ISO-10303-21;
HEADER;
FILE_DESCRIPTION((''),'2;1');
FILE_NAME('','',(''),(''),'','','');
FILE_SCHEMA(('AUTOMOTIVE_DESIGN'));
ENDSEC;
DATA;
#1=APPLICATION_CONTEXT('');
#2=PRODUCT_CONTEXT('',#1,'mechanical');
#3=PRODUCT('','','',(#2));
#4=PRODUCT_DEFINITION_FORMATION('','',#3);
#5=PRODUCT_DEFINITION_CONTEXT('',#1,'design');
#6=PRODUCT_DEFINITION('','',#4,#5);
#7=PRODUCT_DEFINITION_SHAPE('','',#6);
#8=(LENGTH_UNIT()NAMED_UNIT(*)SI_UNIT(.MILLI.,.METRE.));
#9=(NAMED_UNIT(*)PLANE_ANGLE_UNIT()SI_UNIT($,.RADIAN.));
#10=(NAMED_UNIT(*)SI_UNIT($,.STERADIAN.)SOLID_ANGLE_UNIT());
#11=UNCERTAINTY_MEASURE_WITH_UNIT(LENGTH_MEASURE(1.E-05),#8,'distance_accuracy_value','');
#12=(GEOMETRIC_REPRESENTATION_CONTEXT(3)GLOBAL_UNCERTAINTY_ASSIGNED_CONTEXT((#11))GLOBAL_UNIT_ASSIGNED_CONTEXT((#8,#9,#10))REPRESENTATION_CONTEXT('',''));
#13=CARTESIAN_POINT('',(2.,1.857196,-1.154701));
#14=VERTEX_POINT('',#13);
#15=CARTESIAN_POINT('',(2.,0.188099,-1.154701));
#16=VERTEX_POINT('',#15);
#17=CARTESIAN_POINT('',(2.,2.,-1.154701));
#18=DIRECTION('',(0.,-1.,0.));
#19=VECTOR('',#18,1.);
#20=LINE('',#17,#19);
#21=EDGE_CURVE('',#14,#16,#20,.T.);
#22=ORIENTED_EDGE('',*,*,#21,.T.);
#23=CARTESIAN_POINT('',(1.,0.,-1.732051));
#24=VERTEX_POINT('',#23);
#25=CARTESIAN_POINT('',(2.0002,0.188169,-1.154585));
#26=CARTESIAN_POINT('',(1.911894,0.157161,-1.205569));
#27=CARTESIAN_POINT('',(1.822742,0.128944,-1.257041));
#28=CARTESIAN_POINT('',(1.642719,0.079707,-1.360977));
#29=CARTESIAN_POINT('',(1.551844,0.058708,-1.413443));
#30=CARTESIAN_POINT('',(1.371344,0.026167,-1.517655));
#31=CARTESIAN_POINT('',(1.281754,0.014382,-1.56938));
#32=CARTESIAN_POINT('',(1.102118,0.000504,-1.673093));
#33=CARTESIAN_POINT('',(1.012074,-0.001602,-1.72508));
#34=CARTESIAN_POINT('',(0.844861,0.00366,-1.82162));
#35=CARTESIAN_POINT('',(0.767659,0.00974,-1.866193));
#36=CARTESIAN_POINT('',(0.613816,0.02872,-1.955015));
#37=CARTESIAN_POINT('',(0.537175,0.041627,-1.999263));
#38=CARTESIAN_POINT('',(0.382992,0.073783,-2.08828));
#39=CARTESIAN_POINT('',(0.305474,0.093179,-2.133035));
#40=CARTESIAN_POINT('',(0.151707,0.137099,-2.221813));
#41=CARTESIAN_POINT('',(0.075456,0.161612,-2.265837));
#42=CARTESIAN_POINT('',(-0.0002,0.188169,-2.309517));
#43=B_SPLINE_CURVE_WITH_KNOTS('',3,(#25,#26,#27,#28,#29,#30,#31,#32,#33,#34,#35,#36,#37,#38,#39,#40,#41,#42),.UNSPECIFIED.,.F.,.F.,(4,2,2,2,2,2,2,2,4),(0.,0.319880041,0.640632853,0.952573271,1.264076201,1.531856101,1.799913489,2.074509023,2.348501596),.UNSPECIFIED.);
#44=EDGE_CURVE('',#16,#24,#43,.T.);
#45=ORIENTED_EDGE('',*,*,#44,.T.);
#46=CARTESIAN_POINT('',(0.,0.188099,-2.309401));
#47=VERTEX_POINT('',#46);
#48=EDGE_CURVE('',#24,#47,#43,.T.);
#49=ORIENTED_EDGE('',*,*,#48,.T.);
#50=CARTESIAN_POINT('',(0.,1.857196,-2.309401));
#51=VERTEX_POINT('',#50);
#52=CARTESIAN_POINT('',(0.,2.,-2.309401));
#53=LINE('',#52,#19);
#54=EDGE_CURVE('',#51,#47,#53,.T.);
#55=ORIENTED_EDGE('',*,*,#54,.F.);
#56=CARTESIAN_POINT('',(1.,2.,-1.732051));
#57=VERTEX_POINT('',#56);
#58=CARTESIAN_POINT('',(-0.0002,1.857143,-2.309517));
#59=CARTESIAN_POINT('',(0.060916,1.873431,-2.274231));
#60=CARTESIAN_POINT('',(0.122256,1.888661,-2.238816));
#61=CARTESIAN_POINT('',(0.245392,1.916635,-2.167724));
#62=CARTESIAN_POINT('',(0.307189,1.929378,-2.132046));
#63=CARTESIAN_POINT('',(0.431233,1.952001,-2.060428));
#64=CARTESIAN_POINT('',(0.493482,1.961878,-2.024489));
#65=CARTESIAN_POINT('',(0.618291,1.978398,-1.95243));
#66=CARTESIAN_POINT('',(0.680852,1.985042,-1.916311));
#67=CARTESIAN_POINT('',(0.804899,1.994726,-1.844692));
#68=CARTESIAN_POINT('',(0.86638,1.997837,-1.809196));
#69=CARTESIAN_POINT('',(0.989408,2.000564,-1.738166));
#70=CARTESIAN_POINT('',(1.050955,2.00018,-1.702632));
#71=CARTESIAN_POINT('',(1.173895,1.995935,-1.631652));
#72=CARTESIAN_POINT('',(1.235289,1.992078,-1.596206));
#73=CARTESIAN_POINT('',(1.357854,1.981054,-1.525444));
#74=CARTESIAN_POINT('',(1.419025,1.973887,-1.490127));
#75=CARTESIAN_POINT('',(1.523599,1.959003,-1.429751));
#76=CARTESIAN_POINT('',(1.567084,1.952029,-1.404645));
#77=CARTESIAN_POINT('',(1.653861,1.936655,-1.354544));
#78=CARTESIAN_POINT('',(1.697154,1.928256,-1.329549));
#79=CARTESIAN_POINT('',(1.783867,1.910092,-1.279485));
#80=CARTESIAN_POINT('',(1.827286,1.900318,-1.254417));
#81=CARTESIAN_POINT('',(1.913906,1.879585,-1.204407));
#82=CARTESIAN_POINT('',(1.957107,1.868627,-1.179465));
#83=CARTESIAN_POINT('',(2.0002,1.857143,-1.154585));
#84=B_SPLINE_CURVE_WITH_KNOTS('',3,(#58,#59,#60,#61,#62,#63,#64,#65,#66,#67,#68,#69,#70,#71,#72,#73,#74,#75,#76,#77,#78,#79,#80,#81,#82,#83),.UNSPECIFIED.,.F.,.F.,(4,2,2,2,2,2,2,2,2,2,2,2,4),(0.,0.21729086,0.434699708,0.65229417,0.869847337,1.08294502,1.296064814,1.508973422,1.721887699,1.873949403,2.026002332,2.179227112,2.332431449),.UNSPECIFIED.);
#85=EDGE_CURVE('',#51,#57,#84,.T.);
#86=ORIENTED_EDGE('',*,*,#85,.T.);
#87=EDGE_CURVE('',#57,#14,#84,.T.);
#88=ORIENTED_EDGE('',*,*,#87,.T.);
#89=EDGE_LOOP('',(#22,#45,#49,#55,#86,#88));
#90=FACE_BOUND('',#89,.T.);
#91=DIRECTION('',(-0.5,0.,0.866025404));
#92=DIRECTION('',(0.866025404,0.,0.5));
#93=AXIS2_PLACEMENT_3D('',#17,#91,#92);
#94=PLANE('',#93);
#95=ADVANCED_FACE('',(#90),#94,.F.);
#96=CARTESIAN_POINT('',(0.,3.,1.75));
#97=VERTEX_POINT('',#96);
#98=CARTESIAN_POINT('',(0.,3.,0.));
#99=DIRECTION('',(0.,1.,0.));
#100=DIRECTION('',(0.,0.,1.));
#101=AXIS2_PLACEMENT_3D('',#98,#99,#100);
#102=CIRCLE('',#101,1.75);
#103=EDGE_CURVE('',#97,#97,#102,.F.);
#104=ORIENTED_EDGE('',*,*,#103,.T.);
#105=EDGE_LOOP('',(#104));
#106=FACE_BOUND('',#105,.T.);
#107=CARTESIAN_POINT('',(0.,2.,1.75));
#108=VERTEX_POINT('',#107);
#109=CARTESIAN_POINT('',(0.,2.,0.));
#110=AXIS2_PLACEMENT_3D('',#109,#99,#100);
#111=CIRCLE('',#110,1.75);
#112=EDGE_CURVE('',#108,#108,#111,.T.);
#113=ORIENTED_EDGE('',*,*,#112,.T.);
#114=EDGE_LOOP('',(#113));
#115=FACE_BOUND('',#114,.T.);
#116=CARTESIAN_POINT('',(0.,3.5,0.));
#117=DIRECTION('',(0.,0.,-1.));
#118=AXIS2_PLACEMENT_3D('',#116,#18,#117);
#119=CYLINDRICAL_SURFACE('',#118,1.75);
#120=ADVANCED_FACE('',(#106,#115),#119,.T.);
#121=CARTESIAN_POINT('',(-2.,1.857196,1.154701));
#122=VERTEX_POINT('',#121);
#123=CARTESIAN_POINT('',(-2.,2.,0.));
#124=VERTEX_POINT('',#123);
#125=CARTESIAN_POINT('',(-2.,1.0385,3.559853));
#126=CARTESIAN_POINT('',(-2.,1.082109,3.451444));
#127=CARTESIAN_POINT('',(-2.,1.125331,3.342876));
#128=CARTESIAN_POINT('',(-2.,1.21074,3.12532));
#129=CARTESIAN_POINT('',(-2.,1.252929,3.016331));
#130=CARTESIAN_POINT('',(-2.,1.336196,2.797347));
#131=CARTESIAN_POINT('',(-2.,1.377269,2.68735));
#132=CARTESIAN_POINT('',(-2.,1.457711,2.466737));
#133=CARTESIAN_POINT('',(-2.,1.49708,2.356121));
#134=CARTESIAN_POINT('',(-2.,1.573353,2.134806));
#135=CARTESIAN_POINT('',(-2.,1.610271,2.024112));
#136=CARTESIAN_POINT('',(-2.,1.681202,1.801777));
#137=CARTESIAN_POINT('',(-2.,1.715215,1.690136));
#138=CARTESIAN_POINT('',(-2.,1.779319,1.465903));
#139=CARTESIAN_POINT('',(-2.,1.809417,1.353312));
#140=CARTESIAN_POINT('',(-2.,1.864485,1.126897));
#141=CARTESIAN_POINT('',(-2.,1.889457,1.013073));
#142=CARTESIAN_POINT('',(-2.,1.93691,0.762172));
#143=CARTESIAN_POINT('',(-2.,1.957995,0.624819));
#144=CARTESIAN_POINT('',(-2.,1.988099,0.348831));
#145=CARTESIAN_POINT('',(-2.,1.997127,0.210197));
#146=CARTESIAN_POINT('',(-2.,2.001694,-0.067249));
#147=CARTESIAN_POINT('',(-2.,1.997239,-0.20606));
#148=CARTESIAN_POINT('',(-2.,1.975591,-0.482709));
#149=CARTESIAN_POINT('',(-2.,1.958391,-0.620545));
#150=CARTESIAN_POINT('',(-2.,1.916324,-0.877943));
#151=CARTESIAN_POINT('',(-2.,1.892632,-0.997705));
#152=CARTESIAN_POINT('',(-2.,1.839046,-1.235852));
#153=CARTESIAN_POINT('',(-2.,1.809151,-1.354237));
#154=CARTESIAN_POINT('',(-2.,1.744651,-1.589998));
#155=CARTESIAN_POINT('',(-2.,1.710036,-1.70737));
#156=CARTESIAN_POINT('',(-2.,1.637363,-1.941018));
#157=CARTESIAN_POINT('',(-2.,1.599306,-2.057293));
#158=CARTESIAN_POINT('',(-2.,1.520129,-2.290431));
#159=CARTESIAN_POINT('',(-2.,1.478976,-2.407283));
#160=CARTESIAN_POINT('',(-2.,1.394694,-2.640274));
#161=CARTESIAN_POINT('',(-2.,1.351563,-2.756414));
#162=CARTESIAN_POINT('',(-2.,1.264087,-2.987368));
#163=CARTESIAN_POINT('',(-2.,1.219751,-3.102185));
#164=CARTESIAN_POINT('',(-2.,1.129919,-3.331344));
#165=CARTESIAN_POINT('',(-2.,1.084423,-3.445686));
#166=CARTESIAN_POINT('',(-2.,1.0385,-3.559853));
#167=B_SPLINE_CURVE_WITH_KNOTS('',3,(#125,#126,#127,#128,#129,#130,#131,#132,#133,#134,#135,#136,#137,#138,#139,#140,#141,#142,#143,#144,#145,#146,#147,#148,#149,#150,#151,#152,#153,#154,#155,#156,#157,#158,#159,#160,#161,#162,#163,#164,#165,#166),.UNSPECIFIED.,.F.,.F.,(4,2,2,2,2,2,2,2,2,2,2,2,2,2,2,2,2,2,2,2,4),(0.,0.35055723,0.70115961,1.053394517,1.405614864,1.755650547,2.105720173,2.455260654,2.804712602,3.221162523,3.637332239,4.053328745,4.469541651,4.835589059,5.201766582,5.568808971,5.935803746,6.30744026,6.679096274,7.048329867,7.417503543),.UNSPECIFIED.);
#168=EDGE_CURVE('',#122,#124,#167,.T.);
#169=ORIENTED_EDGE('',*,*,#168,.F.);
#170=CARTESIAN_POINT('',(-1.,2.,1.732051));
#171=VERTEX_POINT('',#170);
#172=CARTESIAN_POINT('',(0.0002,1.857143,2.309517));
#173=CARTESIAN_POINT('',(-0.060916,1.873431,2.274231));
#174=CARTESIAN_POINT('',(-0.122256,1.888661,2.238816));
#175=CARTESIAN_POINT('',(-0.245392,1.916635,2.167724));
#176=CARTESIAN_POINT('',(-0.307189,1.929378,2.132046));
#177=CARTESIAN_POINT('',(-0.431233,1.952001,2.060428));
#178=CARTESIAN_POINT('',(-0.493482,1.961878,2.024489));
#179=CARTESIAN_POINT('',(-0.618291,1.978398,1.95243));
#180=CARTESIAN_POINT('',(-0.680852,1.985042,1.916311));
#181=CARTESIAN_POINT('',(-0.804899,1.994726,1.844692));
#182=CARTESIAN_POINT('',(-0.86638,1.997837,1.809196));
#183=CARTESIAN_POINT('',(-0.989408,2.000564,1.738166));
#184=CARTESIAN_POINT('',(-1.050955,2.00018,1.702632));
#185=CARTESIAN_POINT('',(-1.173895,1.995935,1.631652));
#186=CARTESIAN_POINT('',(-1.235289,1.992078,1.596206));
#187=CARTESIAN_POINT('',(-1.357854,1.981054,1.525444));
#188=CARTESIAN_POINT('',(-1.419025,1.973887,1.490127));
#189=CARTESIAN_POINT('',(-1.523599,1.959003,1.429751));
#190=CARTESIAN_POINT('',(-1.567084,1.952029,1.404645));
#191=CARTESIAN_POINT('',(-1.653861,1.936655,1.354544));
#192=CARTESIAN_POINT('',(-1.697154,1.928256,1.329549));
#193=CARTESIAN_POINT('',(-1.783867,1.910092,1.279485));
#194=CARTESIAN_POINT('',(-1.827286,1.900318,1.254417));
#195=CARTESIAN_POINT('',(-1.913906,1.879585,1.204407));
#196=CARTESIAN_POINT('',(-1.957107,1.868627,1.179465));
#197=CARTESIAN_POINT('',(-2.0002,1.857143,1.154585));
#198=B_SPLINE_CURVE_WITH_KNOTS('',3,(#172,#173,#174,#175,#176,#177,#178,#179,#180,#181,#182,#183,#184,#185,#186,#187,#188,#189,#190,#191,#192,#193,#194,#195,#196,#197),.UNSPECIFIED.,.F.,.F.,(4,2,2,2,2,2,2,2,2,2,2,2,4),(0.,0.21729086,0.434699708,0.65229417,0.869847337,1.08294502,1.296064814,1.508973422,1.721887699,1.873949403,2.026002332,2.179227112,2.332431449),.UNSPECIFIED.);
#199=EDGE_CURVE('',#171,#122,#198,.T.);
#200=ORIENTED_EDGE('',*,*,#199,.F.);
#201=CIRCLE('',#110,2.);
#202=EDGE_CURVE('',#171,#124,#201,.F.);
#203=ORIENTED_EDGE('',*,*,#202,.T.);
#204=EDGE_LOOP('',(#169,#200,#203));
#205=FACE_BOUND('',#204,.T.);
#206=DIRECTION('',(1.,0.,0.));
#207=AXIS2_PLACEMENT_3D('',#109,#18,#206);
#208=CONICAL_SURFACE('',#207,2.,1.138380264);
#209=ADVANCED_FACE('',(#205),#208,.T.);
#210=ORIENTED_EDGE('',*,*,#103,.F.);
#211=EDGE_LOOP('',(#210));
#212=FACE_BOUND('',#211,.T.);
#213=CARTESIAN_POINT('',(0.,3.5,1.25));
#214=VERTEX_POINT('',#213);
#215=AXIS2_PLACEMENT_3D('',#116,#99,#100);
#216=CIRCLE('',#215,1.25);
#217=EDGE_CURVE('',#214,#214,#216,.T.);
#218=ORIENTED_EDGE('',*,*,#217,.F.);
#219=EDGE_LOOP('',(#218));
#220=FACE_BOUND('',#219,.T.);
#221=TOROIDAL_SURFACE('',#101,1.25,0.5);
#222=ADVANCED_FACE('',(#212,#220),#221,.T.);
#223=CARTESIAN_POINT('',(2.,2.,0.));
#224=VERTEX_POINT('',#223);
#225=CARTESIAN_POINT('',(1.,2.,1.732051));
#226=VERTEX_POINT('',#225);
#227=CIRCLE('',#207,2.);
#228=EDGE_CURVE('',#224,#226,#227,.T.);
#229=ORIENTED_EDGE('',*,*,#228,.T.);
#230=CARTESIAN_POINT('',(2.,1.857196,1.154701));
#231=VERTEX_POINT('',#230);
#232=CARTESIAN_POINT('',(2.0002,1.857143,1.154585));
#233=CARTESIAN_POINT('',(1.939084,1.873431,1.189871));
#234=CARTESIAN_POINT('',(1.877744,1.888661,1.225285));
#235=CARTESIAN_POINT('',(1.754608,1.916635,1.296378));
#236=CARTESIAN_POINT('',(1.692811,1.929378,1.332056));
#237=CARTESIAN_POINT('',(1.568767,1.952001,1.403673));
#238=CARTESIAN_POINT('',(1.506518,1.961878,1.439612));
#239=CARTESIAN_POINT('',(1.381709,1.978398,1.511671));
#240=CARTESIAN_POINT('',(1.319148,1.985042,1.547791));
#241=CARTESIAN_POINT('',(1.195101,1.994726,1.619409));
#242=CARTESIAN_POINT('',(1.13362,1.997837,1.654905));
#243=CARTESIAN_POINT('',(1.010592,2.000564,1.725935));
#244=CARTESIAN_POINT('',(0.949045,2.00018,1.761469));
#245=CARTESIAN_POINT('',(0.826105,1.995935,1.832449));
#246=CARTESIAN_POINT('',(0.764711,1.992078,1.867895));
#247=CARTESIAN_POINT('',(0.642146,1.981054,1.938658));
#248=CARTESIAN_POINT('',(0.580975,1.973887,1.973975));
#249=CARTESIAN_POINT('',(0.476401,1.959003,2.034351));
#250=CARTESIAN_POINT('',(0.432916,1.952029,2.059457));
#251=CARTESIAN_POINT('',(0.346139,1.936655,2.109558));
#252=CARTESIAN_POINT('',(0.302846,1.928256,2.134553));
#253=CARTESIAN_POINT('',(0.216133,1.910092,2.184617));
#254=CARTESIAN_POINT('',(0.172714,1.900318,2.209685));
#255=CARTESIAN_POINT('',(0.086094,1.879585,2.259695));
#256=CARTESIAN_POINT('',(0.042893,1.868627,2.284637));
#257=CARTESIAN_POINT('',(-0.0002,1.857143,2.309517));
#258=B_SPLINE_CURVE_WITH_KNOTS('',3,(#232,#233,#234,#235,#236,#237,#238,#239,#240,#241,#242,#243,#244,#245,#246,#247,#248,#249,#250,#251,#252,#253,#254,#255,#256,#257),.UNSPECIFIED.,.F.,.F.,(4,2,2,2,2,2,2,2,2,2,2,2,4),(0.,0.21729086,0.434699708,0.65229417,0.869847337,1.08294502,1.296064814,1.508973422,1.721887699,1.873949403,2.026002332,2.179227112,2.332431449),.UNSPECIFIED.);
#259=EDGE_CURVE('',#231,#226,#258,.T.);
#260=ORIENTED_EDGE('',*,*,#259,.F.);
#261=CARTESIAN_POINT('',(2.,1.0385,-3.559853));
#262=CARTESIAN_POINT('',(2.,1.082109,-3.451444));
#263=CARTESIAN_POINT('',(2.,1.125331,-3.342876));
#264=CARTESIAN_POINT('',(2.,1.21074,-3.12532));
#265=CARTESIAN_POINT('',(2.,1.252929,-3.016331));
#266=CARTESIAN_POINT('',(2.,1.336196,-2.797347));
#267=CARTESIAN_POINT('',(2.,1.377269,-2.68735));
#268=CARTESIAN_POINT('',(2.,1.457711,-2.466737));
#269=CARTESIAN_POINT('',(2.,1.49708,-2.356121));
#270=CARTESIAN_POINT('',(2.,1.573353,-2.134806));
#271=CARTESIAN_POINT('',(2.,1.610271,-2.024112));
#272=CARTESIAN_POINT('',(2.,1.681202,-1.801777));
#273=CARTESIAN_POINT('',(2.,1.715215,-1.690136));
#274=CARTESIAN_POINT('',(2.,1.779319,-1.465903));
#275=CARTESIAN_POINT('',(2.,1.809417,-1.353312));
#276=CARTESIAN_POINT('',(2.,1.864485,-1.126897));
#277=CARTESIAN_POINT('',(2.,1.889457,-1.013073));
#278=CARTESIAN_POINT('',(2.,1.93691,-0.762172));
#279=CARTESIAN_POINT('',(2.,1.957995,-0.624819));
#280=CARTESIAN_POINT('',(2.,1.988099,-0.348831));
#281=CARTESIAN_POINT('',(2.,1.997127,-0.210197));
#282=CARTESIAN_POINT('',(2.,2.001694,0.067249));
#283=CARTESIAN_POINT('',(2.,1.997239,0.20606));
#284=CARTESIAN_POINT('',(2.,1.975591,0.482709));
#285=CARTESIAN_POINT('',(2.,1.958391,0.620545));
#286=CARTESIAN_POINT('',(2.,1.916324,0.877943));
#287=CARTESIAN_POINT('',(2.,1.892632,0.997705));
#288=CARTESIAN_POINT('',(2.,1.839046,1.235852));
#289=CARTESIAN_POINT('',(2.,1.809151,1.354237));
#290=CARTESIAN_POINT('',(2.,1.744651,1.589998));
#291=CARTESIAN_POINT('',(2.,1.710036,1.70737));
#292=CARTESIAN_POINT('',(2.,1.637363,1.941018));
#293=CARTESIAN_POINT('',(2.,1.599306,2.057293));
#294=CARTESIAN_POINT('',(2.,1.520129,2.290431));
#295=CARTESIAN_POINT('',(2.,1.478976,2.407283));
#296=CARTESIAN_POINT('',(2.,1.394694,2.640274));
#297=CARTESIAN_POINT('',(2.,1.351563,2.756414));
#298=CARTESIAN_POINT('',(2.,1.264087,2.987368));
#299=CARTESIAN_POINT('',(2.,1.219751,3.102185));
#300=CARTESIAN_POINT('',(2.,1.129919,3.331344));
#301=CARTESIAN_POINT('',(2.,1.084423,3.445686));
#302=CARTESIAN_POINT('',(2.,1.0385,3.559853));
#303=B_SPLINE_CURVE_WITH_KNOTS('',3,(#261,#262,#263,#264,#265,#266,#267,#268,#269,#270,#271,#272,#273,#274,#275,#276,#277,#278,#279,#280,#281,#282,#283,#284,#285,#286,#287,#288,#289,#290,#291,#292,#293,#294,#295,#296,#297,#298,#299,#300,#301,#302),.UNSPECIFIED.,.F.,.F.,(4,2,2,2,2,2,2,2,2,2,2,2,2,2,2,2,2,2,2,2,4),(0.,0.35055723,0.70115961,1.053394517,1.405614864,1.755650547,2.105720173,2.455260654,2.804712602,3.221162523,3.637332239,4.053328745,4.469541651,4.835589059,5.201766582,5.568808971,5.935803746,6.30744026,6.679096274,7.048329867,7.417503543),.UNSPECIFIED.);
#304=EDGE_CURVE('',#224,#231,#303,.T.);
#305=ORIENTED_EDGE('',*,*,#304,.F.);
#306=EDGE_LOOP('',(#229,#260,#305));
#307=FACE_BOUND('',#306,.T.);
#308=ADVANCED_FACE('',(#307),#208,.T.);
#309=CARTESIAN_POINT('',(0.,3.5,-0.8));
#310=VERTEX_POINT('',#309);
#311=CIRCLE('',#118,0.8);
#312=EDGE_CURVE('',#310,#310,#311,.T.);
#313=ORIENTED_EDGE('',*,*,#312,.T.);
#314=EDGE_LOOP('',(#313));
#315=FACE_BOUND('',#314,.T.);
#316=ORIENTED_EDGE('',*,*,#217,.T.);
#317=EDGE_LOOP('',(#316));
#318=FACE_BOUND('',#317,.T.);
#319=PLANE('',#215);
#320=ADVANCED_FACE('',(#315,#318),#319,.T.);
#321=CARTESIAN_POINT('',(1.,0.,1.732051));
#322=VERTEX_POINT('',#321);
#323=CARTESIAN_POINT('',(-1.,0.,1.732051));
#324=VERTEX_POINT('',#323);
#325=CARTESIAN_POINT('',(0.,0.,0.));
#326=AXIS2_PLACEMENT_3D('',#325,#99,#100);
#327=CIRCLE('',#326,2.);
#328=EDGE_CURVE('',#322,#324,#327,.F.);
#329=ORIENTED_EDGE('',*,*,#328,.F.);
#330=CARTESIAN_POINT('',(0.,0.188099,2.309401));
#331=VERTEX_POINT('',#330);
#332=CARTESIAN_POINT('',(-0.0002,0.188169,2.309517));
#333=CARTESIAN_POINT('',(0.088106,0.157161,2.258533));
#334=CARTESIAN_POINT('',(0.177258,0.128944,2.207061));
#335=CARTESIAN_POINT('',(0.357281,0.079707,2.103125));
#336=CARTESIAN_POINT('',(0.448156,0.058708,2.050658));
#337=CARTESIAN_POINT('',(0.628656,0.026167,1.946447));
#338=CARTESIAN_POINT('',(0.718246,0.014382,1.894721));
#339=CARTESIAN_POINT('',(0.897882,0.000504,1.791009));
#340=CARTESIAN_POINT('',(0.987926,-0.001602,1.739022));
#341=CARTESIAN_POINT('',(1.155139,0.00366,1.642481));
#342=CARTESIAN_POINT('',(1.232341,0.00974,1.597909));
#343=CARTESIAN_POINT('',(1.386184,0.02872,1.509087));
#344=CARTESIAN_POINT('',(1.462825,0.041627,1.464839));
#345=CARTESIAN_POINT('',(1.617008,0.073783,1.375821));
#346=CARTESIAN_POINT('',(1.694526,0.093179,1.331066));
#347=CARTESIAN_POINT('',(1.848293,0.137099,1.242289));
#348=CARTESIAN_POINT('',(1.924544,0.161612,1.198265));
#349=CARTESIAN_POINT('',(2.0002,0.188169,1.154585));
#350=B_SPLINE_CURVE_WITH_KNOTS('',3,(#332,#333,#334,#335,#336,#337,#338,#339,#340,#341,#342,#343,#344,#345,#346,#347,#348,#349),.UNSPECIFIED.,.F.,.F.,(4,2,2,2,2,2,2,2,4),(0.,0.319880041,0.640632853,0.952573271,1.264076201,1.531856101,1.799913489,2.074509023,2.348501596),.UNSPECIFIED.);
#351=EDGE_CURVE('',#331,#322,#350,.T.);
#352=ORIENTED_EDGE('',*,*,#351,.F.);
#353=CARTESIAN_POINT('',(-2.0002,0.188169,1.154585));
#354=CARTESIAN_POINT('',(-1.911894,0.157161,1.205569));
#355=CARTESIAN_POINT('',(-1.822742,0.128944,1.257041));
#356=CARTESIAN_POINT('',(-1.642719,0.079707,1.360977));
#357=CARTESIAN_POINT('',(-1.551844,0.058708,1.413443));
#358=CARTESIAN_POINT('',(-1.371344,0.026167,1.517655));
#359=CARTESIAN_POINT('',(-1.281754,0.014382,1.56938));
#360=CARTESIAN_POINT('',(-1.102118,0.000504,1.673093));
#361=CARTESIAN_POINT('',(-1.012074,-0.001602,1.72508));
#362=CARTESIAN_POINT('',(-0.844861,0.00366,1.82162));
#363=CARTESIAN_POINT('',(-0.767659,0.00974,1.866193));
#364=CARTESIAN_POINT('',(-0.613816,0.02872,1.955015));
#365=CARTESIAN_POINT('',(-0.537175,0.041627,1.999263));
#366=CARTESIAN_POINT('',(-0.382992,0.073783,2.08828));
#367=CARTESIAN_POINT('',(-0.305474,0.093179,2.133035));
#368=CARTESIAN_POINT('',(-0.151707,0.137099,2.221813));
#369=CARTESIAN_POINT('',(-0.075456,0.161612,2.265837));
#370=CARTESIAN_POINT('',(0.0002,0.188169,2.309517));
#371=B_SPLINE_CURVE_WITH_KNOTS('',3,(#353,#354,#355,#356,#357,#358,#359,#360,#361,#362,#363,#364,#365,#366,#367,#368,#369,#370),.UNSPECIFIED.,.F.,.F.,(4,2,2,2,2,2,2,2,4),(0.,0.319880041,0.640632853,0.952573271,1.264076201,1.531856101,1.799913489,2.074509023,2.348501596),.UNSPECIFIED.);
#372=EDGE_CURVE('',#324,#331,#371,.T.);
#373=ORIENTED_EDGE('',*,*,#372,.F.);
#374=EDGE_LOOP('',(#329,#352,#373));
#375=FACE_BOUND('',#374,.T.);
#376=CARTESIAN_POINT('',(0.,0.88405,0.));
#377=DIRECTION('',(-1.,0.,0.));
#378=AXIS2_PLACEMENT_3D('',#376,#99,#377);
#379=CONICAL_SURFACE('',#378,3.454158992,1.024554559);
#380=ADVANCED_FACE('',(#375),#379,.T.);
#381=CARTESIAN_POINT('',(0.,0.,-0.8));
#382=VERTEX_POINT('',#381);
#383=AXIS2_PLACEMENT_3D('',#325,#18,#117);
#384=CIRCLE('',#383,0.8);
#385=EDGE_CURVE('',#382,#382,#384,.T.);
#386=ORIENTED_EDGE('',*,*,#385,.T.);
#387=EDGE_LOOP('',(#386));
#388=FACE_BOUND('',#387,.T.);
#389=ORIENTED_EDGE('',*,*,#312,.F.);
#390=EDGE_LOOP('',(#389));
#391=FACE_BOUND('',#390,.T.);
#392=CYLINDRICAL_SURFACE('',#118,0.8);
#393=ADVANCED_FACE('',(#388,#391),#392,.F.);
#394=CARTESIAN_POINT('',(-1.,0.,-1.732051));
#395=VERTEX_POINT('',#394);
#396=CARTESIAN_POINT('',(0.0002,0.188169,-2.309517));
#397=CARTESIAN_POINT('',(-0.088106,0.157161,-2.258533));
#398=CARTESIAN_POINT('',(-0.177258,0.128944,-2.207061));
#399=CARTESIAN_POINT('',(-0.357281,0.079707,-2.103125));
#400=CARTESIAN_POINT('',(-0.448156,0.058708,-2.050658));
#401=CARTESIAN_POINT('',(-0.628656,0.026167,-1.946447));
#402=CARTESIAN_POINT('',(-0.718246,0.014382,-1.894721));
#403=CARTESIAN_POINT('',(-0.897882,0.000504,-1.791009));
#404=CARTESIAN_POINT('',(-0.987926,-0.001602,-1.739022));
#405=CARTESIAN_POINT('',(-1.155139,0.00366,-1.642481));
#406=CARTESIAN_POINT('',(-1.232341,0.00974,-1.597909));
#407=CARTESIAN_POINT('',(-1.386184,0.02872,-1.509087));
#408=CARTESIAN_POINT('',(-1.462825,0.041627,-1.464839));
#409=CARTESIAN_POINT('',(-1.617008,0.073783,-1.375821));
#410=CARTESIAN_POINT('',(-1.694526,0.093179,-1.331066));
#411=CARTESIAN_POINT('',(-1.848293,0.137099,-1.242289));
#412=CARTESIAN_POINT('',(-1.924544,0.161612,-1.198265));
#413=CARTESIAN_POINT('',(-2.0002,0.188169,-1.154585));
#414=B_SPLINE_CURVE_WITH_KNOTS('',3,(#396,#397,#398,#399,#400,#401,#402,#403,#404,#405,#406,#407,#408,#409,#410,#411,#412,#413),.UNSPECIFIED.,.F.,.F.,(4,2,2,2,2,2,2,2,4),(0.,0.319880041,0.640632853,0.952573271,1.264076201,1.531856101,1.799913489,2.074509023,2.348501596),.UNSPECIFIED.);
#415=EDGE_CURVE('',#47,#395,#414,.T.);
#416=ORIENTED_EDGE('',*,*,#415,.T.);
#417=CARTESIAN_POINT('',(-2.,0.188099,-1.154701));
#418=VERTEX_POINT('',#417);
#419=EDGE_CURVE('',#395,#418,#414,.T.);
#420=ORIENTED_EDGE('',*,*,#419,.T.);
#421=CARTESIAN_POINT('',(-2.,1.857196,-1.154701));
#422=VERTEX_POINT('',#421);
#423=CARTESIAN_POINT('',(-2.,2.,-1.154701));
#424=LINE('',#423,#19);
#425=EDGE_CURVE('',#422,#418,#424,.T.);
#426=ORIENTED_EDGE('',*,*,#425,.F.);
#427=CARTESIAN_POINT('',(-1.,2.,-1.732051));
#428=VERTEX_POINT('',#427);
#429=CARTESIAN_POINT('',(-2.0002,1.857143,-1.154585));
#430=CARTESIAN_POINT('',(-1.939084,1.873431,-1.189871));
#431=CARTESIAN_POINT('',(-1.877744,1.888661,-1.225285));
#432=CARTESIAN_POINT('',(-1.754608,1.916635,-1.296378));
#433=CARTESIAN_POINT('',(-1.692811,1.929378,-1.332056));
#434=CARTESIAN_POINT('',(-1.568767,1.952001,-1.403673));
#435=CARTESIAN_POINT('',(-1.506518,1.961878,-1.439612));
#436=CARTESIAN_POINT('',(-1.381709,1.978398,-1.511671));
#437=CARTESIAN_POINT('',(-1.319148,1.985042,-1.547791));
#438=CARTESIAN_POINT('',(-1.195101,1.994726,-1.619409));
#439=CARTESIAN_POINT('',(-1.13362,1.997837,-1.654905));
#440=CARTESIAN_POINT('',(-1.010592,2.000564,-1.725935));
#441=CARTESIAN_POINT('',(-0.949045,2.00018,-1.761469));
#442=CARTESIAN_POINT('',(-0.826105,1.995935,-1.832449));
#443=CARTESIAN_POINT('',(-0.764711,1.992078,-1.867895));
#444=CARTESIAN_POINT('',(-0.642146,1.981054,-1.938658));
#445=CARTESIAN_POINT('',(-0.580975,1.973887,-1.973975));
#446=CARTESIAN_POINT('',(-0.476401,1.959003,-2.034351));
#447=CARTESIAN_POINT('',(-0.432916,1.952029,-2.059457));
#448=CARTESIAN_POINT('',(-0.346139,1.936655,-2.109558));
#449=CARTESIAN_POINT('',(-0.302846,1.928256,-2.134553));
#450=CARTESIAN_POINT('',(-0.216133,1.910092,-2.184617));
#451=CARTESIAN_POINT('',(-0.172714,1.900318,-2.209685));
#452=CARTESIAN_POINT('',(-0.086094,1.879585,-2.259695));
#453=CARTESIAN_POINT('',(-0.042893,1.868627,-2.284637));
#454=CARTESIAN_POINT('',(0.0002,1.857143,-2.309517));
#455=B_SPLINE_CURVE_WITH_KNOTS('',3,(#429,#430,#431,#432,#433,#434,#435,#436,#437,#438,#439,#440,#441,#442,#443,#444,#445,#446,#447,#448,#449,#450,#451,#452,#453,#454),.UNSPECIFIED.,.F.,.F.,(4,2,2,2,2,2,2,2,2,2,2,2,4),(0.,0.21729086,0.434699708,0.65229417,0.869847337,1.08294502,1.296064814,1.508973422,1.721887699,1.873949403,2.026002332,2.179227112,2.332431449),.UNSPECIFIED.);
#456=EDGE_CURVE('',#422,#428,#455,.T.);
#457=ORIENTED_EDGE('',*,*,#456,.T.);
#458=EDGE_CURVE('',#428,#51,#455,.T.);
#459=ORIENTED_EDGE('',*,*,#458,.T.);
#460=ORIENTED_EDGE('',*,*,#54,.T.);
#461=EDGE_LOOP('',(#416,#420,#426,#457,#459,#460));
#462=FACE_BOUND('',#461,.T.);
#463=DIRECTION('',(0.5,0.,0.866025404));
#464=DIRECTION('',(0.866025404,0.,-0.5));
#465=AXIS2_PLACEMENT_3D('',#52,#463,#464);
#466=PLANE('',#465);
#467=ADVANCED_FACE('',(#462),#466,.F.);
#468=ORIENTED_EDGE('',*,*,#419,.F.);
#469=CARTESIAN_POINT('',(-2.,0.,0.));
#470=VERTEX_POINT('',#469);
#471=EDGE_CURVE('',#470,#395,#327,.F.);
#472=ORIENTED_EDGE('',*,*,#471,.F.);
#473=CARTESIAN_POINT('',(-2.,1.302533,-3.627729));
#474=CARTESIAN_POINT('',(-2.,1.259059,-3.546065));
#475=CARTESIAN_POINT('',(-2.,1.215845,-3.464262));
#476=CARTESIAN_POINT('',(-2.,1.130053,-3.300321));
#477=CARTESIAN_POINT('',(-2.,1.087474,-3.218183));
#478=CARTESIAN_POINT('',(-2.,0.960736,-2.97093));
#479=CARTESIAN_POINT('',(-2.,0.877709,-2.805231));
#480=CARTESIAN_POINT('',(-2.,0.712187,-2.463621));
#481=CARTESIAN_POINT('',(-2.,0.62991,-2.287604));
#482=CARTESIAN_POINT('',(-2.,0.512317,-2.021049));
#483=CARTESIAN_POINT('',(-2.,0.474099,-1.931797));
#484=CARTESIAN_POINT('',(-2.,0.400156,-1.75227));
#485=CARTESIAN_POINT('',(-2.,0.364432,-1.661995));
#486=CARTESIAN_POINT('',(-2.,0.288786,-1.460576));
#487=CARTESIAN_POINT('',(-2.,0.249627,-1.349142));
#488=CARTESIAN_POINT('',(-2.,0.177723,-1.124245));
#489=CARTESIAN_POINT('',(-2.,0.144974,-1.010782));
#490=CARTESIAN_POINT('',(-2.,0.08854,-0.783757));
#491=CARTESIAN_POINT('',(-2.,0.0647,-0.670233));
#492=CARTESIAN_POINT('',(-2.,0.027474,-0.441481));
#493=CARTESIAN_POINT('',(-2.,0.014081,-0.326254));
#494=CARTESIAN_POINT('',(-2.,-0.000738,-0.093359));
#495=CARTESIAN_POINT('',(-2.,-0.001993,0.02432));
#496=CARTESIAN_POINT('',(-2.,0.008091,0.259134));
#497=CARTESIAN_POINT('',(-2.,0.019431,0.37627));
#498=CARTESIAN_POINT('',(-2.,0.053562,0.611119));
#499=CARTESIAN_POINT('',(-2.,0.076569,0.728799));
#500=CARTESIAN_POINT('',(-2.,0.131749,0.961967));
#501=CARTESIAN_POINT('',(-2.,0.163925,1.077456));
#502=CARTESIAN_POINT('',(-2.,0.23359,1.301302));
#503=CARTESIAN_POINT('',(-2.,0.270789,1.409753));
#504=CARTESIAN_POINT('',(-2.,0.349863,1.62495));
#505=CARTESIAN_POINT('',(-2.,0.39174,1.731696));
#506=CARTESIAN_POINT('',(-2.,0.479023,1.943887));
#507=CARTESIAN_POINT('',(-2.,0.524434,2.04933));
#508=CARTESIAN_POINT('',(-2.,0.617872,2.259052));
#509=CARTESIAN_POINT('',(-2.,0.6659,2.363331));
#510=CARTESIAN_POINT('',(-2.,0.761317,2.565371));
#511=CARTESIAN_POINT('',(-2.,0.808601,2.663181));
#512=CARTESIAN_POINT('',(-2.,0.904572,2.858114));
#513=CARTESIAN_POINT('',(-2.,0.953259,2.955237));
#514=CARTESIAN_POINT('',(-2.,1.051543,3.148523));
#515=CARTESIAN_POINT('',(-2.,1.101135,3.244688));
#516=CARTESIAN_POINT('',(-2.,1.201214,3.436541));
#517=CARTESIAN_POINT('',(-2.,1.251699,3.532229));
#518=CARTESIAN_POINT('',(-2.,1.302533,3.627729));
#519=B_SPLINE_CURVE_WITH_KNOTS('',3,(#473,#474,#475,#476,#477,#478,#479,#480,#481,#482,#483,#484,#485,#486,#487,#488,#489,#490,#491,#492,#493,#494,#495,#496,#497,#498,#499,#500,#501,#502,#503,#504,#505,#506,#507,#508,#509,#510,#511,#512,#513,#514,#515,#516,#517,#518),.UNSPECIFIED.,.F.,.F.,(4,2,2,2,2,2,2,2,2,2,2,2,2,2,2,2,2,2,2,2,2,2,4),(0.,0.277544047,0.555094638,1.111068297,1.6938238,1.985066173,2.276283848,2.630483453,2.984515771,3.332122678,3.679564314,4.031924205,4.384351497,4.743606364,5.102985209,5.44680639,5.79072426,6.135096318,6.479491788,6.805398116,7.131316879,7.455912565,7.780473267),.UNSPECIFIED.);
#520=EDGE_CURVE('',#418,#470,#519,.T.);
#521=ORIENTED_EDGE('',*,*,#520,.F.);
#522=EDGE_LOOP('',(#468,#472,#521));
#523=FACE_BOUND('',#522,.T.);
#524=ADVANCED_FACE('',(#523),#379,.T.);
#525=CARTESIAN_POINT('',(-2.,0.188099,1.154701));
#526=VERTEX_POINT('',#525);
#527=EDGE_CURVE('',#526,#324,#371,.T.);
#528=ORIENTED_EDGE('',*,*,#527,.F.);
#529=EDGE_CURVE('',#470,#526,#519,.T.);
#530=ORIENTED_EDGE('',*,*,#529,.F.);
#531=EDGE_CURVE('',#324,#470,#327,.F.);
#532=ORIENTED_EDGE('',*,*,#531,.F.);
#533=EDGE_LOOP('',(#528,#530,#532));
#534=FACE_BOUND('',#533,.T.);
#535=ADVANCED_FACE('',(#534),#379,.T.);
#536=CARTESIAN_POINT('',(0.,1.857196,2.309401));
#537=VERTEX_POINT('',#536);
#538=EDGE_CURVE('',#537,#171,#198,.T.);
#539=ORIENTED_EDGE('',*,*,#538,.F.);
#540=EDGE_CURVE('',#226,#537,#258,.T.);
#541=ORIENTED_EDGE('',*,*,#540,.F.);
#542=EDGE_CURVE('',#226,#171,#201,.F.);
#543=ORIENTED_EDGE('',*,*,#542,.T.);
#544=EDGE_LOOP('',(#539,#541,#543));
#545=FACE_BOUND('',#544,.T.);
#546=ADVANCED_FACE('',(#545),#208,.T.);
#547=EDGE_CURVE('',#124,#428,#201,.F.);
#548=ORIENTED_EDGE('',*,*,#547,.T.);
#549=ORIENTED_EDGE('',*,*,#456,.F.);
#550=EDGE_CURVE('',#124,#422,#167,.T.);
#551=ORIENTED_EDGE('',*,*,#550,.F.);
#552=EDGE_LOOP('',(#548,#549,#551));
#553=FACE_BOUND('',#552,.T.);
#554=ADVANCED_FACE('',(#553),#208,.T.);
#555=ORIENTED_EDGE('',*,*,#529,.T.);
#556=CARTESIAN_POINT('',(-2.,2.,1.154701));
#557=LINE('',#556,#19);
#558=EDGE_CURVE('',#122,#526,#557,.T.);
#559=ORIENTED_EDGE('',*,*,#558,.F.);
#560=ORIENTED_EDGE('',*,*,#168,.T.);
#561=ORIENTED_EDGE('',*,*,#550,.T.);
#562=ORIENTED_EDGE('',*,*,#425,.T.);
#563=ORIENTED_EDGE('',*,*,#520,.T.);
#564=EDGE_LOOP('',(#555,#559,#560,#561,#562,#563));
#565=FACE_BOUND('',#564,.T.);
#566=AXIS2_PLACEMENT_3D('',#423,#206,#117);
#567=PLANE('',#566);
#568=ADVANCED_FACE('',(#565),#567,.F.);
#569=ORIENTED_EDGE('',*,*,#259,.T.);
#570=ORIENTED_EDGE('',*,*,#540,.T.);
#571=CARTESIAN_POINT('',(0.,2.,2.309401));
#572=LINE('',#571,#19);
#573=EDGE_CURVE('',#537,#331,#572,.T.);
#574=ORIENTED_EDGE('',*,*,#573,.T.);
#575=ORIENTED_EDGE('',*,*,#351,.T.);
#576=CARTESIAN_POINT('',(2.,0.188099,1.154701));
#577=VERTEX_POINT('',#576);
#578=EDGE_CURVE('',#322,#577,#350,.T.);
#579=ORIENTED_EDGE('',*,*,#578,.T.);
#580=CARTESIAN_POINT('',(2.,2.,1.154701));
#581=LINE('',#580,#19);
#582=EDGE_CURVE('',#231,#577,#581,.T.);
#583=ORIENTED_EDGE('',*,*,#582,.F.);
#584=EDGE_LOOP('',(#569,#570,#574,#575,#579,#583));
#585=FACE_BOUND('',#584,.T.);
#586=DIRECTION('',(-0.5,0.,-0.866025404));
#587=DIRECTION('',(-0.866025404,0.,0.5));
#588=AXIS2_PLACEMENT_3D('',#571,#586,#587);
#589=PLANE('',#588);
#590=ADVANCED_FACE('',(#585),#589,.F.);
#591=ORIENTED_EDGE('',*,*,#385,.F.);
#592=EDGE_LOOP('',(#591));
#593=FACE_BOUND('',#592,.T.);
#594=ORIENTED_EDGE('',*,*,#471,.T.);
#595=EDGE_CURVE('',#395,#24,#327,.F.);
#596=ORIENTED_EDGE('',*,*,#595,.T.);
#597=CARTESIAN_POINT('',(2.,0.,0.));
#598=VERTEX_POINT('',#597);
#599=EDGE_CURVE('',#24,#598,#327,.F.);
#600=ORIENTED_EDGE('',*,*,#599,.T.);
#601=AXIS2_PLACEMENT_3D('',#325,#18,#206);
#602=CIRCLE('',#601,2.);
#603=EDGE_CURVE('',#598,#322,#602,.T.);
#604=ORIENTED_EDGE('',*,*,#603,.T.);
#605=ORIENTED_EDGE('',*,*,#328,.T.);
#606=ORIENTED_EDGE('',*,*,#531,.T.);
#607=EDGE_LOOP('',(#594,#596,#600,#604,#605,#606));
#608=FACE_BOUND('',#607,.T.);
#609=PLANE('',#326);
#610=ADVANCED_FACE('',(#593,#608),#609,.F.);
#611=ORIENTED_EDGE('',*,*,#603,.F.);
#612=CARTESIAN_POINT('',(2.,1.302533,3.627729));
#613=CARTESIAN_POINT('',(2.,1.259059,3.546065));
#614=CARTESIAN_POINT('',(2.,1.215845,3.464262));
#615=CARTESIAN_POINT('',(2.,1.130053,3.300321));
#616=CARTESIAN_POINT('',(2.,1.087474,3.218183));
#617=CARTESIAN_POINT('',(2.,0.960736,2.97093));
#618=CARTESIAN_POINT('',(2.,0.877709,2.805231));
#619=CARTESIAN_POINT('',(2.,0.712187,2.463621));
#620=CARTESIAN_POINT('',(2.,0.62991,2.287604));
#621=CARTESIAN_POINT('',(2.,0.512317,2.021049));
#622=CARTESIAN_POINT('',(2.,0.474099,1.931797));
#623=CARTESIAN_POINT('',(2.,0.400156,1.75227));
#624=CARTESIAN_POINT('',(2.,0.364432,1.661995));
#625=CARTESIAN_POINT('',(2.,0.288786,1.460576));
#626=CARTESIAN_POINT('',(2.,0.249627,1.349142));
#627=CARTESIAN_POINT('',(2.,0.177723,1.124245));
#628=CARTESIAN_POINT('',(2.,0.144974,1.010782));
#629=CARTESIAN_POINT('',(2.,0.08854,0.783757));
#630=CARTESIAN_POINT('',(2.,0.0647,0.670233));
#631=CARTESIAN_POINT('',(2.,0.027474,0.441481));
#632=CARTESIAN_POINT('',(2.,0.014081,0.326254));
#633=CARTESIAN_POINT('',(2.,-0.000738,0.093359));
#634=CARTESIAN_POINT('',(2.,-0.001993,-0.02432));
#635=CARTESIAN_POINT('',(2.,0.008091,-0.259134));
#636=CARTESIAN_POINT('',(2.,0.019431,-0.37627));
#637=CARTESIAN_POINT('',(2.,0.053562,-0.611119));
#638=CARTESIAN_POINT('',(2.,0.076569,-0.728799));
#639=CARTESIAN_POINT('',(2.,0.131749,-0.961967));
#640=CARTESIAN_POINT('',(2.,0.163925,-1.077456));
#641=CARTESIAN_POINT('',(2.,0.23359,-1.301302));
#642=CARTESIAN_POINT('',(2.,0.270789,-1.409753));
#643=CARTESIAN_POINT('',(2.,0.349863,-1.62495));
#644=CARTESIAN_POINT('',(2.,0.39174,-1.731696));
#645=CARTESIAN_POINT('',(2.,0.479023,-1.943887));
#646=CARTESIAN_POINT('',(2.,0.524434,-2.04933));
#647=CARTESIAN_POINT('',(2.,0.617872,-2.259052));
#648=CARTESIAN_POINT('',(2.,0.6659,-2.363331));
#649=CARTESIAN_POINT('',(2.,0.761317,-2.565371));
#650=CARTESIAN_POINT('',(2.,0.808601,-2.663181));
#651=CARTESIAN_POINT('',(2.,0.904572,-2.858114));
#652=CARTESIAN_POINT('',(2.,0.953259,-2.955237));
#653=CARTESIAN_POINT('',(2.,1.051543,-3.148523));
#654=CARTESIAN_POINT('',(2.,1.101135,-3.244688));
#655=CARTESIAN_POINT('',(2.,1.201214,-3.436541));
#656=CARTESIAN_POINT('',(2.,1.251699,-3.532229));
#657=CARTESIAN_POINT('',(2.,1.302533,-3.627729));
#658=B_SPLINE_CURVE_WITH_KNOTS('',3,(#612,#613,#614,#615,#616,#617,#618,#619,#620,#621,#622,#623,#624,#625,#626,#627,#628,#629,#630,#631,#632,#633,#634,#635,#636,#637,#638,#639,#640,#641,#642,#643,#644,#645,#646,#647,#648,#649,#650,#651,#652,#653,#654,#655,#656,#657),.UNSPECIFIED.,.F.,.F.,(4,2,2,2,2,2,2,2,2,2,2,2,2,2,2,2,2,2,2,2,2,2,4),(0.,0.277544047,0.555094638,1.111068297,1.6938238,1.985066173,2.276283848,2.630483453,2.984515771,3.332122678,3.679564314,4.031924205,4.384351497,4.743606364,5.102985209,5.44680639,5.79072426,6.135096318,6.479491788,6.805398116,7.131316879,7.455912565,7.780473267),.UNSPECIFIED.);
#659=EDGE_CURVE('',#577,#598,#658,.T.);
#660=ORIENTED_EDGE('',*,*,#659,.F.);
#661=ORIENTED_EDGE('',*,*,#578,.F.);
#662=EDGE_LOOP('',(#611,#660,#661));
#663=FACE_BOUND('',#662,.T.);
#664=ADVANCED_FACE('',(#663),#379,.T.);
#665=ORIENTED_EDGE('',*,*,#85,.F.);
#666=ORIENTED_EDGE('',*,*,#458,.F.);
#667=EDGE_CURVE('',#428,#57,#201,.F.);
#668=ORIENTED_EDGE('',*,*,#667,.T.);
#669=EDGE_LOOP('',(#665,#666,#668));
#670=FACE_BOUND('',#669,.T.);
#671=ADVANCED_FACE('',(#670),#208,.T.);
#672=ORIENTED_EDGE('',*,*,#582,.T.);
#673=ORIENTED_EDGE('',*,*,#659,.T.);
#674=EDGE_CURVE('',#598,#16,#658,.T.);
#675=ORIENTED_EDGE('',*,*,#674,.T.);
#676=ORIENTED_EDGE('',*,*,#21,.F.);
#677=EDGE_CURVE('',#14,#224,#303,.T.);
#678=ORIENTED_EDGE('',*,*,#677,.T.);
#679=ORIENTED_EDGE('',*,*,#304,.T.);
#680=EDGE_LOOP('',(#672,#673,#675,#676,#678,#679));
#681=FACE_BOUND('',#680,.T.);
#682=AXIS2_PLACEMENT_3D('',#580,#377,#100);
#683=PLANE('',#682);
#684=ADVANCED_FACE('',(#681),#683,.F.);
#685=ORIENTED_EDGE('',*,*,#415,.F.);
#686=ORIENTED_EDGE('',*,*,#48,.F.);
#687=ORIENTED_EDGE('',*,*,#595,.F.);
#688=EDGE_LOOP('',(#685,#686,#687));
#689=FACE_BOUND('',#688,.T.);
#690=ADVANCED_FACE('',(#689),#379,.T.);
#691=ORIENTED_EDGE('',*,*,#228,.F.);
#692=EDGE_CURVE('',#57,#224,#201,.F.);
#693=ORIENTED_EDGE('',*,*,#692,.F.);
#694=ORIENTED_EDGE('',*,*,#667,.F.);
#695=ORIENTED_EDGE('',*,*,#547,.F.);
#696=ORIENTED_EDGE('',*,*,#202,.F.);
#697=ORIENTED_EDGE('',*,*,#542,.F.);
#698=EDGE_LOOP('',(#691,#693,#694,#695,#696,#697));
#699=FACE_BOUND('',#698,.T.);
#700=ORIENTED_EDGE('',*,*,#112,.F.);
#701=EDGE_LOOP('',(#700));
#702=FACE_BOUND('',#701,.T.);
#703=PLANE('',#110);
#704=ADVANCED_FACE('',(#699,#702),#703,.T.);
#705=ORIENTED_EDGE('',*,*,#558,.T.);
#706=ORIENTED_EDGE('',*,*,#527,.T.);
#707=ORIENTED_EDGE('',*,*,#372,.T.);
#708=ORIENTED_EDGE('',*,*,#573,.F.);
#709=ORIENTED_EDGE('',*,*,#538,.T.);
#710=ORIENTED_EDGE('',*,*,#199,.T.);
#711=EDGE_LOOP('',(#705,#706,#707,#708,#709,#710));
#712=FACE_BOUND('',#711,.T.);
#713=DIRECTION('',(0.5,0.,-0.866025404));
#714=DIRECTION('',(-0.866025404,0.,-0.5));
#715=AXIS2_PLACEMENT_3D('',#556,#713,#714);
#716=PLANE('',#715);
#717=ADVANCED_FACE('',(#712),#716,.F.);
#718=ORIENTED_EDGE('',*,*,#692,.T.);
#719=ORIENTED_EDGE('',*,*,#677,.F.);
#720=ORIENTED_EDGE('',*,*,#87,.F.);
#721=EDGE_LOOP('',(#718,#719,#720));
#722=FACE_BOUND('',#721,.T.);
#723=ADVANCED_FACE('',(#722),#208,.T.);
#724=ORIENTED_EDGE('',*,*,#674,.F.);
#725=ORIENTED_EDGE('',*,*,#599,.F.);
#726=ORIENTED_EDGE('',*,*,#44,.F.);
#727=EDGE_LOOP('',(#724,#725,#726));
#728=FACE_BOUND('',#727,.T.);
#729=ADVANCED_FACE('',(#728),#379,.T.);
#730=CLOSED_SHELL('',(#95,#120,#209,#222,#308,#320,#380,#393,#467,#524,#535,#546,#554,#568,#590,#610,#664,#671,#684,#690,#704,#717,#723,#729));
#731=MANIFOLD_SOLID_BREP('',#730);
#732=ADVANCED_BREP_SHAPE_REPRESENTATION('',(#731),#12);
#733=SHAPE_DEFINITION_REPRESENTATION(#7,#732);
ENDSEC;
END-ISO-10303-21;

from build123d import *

# Parameters (mm, degrees)
EXTRUDE_1_DEPTH     = 2
SKETCH_2_R          = 1.75
EXTRUDE_2_DEPTH     = 1.5
FILLET_1_R          = 0.5
SKETCH_3_R          = 0.8
CUT_EXTRUDE_1_DEPTH = 3.5


with BuildPart() as part:
    # 草图1 → 凸台-拉伸1 (new body)
    with BuildSketch(Plane(origin=(0, 0, 0), x_dir=(1, 0, 0), z_dir=(0, 1, 0))):
        Polygon((2, 1.154700538), (0, 2.309401077), (-2, 1.154700538), (-2, -1.154700538), (0, -2.309401077), (2, -1.154700538), align=None)
    extrude(amount=EXTRUDE_1_DEPTH)

    # 草图2 → 凸台-拉伸2 (add)
    with BuildSketch(Plane(origin=(0, 2, 0), x_dir=(1, 0, 0), z_dir=(0, 1, 0))):
        with Locations(Location((0, 0, 0), (0, 0, 270))):
            Circle(SKETCH_2_R)
    extrude(amount=EXTRUDE_2_DEPTH)

    # 圆角1
    fillet_1_edges = [part.edges().sort_by_distance(p)[0] for p in [
        (0, 3.5, -1.75),
    ]]
    fillet(fillet_1_edges, radius=FILLET_1_R)

    # 草图3 → 切除-拉伸1 (cut)
    with BuildSketch(Plane.XZ):
        with Locations(Location((0, 0, 0), (0, 0, 270))):
            Circle(SKETCH_3_R)
    extrude(amount=-CUT_EXTRUDE_1_DEPTH, mode=Mode.SUBTRACT)

    # 草图4 → 切除-旋转1 (revolve, cut)
    with BuildSketch(Plane.XY):
        Polygon((3.454158992, 0), (3.454158992, 0.884050335), (2, 0), align=None)
        Polygon((2, 2), (3.454158992, 2), (3.454158992, 1.328835078), align=None)
    revolve(axis=Axis((0, 0, 0), (0, 1, 0)), mode=Mode.SUBTRACT)


solid = part.part
